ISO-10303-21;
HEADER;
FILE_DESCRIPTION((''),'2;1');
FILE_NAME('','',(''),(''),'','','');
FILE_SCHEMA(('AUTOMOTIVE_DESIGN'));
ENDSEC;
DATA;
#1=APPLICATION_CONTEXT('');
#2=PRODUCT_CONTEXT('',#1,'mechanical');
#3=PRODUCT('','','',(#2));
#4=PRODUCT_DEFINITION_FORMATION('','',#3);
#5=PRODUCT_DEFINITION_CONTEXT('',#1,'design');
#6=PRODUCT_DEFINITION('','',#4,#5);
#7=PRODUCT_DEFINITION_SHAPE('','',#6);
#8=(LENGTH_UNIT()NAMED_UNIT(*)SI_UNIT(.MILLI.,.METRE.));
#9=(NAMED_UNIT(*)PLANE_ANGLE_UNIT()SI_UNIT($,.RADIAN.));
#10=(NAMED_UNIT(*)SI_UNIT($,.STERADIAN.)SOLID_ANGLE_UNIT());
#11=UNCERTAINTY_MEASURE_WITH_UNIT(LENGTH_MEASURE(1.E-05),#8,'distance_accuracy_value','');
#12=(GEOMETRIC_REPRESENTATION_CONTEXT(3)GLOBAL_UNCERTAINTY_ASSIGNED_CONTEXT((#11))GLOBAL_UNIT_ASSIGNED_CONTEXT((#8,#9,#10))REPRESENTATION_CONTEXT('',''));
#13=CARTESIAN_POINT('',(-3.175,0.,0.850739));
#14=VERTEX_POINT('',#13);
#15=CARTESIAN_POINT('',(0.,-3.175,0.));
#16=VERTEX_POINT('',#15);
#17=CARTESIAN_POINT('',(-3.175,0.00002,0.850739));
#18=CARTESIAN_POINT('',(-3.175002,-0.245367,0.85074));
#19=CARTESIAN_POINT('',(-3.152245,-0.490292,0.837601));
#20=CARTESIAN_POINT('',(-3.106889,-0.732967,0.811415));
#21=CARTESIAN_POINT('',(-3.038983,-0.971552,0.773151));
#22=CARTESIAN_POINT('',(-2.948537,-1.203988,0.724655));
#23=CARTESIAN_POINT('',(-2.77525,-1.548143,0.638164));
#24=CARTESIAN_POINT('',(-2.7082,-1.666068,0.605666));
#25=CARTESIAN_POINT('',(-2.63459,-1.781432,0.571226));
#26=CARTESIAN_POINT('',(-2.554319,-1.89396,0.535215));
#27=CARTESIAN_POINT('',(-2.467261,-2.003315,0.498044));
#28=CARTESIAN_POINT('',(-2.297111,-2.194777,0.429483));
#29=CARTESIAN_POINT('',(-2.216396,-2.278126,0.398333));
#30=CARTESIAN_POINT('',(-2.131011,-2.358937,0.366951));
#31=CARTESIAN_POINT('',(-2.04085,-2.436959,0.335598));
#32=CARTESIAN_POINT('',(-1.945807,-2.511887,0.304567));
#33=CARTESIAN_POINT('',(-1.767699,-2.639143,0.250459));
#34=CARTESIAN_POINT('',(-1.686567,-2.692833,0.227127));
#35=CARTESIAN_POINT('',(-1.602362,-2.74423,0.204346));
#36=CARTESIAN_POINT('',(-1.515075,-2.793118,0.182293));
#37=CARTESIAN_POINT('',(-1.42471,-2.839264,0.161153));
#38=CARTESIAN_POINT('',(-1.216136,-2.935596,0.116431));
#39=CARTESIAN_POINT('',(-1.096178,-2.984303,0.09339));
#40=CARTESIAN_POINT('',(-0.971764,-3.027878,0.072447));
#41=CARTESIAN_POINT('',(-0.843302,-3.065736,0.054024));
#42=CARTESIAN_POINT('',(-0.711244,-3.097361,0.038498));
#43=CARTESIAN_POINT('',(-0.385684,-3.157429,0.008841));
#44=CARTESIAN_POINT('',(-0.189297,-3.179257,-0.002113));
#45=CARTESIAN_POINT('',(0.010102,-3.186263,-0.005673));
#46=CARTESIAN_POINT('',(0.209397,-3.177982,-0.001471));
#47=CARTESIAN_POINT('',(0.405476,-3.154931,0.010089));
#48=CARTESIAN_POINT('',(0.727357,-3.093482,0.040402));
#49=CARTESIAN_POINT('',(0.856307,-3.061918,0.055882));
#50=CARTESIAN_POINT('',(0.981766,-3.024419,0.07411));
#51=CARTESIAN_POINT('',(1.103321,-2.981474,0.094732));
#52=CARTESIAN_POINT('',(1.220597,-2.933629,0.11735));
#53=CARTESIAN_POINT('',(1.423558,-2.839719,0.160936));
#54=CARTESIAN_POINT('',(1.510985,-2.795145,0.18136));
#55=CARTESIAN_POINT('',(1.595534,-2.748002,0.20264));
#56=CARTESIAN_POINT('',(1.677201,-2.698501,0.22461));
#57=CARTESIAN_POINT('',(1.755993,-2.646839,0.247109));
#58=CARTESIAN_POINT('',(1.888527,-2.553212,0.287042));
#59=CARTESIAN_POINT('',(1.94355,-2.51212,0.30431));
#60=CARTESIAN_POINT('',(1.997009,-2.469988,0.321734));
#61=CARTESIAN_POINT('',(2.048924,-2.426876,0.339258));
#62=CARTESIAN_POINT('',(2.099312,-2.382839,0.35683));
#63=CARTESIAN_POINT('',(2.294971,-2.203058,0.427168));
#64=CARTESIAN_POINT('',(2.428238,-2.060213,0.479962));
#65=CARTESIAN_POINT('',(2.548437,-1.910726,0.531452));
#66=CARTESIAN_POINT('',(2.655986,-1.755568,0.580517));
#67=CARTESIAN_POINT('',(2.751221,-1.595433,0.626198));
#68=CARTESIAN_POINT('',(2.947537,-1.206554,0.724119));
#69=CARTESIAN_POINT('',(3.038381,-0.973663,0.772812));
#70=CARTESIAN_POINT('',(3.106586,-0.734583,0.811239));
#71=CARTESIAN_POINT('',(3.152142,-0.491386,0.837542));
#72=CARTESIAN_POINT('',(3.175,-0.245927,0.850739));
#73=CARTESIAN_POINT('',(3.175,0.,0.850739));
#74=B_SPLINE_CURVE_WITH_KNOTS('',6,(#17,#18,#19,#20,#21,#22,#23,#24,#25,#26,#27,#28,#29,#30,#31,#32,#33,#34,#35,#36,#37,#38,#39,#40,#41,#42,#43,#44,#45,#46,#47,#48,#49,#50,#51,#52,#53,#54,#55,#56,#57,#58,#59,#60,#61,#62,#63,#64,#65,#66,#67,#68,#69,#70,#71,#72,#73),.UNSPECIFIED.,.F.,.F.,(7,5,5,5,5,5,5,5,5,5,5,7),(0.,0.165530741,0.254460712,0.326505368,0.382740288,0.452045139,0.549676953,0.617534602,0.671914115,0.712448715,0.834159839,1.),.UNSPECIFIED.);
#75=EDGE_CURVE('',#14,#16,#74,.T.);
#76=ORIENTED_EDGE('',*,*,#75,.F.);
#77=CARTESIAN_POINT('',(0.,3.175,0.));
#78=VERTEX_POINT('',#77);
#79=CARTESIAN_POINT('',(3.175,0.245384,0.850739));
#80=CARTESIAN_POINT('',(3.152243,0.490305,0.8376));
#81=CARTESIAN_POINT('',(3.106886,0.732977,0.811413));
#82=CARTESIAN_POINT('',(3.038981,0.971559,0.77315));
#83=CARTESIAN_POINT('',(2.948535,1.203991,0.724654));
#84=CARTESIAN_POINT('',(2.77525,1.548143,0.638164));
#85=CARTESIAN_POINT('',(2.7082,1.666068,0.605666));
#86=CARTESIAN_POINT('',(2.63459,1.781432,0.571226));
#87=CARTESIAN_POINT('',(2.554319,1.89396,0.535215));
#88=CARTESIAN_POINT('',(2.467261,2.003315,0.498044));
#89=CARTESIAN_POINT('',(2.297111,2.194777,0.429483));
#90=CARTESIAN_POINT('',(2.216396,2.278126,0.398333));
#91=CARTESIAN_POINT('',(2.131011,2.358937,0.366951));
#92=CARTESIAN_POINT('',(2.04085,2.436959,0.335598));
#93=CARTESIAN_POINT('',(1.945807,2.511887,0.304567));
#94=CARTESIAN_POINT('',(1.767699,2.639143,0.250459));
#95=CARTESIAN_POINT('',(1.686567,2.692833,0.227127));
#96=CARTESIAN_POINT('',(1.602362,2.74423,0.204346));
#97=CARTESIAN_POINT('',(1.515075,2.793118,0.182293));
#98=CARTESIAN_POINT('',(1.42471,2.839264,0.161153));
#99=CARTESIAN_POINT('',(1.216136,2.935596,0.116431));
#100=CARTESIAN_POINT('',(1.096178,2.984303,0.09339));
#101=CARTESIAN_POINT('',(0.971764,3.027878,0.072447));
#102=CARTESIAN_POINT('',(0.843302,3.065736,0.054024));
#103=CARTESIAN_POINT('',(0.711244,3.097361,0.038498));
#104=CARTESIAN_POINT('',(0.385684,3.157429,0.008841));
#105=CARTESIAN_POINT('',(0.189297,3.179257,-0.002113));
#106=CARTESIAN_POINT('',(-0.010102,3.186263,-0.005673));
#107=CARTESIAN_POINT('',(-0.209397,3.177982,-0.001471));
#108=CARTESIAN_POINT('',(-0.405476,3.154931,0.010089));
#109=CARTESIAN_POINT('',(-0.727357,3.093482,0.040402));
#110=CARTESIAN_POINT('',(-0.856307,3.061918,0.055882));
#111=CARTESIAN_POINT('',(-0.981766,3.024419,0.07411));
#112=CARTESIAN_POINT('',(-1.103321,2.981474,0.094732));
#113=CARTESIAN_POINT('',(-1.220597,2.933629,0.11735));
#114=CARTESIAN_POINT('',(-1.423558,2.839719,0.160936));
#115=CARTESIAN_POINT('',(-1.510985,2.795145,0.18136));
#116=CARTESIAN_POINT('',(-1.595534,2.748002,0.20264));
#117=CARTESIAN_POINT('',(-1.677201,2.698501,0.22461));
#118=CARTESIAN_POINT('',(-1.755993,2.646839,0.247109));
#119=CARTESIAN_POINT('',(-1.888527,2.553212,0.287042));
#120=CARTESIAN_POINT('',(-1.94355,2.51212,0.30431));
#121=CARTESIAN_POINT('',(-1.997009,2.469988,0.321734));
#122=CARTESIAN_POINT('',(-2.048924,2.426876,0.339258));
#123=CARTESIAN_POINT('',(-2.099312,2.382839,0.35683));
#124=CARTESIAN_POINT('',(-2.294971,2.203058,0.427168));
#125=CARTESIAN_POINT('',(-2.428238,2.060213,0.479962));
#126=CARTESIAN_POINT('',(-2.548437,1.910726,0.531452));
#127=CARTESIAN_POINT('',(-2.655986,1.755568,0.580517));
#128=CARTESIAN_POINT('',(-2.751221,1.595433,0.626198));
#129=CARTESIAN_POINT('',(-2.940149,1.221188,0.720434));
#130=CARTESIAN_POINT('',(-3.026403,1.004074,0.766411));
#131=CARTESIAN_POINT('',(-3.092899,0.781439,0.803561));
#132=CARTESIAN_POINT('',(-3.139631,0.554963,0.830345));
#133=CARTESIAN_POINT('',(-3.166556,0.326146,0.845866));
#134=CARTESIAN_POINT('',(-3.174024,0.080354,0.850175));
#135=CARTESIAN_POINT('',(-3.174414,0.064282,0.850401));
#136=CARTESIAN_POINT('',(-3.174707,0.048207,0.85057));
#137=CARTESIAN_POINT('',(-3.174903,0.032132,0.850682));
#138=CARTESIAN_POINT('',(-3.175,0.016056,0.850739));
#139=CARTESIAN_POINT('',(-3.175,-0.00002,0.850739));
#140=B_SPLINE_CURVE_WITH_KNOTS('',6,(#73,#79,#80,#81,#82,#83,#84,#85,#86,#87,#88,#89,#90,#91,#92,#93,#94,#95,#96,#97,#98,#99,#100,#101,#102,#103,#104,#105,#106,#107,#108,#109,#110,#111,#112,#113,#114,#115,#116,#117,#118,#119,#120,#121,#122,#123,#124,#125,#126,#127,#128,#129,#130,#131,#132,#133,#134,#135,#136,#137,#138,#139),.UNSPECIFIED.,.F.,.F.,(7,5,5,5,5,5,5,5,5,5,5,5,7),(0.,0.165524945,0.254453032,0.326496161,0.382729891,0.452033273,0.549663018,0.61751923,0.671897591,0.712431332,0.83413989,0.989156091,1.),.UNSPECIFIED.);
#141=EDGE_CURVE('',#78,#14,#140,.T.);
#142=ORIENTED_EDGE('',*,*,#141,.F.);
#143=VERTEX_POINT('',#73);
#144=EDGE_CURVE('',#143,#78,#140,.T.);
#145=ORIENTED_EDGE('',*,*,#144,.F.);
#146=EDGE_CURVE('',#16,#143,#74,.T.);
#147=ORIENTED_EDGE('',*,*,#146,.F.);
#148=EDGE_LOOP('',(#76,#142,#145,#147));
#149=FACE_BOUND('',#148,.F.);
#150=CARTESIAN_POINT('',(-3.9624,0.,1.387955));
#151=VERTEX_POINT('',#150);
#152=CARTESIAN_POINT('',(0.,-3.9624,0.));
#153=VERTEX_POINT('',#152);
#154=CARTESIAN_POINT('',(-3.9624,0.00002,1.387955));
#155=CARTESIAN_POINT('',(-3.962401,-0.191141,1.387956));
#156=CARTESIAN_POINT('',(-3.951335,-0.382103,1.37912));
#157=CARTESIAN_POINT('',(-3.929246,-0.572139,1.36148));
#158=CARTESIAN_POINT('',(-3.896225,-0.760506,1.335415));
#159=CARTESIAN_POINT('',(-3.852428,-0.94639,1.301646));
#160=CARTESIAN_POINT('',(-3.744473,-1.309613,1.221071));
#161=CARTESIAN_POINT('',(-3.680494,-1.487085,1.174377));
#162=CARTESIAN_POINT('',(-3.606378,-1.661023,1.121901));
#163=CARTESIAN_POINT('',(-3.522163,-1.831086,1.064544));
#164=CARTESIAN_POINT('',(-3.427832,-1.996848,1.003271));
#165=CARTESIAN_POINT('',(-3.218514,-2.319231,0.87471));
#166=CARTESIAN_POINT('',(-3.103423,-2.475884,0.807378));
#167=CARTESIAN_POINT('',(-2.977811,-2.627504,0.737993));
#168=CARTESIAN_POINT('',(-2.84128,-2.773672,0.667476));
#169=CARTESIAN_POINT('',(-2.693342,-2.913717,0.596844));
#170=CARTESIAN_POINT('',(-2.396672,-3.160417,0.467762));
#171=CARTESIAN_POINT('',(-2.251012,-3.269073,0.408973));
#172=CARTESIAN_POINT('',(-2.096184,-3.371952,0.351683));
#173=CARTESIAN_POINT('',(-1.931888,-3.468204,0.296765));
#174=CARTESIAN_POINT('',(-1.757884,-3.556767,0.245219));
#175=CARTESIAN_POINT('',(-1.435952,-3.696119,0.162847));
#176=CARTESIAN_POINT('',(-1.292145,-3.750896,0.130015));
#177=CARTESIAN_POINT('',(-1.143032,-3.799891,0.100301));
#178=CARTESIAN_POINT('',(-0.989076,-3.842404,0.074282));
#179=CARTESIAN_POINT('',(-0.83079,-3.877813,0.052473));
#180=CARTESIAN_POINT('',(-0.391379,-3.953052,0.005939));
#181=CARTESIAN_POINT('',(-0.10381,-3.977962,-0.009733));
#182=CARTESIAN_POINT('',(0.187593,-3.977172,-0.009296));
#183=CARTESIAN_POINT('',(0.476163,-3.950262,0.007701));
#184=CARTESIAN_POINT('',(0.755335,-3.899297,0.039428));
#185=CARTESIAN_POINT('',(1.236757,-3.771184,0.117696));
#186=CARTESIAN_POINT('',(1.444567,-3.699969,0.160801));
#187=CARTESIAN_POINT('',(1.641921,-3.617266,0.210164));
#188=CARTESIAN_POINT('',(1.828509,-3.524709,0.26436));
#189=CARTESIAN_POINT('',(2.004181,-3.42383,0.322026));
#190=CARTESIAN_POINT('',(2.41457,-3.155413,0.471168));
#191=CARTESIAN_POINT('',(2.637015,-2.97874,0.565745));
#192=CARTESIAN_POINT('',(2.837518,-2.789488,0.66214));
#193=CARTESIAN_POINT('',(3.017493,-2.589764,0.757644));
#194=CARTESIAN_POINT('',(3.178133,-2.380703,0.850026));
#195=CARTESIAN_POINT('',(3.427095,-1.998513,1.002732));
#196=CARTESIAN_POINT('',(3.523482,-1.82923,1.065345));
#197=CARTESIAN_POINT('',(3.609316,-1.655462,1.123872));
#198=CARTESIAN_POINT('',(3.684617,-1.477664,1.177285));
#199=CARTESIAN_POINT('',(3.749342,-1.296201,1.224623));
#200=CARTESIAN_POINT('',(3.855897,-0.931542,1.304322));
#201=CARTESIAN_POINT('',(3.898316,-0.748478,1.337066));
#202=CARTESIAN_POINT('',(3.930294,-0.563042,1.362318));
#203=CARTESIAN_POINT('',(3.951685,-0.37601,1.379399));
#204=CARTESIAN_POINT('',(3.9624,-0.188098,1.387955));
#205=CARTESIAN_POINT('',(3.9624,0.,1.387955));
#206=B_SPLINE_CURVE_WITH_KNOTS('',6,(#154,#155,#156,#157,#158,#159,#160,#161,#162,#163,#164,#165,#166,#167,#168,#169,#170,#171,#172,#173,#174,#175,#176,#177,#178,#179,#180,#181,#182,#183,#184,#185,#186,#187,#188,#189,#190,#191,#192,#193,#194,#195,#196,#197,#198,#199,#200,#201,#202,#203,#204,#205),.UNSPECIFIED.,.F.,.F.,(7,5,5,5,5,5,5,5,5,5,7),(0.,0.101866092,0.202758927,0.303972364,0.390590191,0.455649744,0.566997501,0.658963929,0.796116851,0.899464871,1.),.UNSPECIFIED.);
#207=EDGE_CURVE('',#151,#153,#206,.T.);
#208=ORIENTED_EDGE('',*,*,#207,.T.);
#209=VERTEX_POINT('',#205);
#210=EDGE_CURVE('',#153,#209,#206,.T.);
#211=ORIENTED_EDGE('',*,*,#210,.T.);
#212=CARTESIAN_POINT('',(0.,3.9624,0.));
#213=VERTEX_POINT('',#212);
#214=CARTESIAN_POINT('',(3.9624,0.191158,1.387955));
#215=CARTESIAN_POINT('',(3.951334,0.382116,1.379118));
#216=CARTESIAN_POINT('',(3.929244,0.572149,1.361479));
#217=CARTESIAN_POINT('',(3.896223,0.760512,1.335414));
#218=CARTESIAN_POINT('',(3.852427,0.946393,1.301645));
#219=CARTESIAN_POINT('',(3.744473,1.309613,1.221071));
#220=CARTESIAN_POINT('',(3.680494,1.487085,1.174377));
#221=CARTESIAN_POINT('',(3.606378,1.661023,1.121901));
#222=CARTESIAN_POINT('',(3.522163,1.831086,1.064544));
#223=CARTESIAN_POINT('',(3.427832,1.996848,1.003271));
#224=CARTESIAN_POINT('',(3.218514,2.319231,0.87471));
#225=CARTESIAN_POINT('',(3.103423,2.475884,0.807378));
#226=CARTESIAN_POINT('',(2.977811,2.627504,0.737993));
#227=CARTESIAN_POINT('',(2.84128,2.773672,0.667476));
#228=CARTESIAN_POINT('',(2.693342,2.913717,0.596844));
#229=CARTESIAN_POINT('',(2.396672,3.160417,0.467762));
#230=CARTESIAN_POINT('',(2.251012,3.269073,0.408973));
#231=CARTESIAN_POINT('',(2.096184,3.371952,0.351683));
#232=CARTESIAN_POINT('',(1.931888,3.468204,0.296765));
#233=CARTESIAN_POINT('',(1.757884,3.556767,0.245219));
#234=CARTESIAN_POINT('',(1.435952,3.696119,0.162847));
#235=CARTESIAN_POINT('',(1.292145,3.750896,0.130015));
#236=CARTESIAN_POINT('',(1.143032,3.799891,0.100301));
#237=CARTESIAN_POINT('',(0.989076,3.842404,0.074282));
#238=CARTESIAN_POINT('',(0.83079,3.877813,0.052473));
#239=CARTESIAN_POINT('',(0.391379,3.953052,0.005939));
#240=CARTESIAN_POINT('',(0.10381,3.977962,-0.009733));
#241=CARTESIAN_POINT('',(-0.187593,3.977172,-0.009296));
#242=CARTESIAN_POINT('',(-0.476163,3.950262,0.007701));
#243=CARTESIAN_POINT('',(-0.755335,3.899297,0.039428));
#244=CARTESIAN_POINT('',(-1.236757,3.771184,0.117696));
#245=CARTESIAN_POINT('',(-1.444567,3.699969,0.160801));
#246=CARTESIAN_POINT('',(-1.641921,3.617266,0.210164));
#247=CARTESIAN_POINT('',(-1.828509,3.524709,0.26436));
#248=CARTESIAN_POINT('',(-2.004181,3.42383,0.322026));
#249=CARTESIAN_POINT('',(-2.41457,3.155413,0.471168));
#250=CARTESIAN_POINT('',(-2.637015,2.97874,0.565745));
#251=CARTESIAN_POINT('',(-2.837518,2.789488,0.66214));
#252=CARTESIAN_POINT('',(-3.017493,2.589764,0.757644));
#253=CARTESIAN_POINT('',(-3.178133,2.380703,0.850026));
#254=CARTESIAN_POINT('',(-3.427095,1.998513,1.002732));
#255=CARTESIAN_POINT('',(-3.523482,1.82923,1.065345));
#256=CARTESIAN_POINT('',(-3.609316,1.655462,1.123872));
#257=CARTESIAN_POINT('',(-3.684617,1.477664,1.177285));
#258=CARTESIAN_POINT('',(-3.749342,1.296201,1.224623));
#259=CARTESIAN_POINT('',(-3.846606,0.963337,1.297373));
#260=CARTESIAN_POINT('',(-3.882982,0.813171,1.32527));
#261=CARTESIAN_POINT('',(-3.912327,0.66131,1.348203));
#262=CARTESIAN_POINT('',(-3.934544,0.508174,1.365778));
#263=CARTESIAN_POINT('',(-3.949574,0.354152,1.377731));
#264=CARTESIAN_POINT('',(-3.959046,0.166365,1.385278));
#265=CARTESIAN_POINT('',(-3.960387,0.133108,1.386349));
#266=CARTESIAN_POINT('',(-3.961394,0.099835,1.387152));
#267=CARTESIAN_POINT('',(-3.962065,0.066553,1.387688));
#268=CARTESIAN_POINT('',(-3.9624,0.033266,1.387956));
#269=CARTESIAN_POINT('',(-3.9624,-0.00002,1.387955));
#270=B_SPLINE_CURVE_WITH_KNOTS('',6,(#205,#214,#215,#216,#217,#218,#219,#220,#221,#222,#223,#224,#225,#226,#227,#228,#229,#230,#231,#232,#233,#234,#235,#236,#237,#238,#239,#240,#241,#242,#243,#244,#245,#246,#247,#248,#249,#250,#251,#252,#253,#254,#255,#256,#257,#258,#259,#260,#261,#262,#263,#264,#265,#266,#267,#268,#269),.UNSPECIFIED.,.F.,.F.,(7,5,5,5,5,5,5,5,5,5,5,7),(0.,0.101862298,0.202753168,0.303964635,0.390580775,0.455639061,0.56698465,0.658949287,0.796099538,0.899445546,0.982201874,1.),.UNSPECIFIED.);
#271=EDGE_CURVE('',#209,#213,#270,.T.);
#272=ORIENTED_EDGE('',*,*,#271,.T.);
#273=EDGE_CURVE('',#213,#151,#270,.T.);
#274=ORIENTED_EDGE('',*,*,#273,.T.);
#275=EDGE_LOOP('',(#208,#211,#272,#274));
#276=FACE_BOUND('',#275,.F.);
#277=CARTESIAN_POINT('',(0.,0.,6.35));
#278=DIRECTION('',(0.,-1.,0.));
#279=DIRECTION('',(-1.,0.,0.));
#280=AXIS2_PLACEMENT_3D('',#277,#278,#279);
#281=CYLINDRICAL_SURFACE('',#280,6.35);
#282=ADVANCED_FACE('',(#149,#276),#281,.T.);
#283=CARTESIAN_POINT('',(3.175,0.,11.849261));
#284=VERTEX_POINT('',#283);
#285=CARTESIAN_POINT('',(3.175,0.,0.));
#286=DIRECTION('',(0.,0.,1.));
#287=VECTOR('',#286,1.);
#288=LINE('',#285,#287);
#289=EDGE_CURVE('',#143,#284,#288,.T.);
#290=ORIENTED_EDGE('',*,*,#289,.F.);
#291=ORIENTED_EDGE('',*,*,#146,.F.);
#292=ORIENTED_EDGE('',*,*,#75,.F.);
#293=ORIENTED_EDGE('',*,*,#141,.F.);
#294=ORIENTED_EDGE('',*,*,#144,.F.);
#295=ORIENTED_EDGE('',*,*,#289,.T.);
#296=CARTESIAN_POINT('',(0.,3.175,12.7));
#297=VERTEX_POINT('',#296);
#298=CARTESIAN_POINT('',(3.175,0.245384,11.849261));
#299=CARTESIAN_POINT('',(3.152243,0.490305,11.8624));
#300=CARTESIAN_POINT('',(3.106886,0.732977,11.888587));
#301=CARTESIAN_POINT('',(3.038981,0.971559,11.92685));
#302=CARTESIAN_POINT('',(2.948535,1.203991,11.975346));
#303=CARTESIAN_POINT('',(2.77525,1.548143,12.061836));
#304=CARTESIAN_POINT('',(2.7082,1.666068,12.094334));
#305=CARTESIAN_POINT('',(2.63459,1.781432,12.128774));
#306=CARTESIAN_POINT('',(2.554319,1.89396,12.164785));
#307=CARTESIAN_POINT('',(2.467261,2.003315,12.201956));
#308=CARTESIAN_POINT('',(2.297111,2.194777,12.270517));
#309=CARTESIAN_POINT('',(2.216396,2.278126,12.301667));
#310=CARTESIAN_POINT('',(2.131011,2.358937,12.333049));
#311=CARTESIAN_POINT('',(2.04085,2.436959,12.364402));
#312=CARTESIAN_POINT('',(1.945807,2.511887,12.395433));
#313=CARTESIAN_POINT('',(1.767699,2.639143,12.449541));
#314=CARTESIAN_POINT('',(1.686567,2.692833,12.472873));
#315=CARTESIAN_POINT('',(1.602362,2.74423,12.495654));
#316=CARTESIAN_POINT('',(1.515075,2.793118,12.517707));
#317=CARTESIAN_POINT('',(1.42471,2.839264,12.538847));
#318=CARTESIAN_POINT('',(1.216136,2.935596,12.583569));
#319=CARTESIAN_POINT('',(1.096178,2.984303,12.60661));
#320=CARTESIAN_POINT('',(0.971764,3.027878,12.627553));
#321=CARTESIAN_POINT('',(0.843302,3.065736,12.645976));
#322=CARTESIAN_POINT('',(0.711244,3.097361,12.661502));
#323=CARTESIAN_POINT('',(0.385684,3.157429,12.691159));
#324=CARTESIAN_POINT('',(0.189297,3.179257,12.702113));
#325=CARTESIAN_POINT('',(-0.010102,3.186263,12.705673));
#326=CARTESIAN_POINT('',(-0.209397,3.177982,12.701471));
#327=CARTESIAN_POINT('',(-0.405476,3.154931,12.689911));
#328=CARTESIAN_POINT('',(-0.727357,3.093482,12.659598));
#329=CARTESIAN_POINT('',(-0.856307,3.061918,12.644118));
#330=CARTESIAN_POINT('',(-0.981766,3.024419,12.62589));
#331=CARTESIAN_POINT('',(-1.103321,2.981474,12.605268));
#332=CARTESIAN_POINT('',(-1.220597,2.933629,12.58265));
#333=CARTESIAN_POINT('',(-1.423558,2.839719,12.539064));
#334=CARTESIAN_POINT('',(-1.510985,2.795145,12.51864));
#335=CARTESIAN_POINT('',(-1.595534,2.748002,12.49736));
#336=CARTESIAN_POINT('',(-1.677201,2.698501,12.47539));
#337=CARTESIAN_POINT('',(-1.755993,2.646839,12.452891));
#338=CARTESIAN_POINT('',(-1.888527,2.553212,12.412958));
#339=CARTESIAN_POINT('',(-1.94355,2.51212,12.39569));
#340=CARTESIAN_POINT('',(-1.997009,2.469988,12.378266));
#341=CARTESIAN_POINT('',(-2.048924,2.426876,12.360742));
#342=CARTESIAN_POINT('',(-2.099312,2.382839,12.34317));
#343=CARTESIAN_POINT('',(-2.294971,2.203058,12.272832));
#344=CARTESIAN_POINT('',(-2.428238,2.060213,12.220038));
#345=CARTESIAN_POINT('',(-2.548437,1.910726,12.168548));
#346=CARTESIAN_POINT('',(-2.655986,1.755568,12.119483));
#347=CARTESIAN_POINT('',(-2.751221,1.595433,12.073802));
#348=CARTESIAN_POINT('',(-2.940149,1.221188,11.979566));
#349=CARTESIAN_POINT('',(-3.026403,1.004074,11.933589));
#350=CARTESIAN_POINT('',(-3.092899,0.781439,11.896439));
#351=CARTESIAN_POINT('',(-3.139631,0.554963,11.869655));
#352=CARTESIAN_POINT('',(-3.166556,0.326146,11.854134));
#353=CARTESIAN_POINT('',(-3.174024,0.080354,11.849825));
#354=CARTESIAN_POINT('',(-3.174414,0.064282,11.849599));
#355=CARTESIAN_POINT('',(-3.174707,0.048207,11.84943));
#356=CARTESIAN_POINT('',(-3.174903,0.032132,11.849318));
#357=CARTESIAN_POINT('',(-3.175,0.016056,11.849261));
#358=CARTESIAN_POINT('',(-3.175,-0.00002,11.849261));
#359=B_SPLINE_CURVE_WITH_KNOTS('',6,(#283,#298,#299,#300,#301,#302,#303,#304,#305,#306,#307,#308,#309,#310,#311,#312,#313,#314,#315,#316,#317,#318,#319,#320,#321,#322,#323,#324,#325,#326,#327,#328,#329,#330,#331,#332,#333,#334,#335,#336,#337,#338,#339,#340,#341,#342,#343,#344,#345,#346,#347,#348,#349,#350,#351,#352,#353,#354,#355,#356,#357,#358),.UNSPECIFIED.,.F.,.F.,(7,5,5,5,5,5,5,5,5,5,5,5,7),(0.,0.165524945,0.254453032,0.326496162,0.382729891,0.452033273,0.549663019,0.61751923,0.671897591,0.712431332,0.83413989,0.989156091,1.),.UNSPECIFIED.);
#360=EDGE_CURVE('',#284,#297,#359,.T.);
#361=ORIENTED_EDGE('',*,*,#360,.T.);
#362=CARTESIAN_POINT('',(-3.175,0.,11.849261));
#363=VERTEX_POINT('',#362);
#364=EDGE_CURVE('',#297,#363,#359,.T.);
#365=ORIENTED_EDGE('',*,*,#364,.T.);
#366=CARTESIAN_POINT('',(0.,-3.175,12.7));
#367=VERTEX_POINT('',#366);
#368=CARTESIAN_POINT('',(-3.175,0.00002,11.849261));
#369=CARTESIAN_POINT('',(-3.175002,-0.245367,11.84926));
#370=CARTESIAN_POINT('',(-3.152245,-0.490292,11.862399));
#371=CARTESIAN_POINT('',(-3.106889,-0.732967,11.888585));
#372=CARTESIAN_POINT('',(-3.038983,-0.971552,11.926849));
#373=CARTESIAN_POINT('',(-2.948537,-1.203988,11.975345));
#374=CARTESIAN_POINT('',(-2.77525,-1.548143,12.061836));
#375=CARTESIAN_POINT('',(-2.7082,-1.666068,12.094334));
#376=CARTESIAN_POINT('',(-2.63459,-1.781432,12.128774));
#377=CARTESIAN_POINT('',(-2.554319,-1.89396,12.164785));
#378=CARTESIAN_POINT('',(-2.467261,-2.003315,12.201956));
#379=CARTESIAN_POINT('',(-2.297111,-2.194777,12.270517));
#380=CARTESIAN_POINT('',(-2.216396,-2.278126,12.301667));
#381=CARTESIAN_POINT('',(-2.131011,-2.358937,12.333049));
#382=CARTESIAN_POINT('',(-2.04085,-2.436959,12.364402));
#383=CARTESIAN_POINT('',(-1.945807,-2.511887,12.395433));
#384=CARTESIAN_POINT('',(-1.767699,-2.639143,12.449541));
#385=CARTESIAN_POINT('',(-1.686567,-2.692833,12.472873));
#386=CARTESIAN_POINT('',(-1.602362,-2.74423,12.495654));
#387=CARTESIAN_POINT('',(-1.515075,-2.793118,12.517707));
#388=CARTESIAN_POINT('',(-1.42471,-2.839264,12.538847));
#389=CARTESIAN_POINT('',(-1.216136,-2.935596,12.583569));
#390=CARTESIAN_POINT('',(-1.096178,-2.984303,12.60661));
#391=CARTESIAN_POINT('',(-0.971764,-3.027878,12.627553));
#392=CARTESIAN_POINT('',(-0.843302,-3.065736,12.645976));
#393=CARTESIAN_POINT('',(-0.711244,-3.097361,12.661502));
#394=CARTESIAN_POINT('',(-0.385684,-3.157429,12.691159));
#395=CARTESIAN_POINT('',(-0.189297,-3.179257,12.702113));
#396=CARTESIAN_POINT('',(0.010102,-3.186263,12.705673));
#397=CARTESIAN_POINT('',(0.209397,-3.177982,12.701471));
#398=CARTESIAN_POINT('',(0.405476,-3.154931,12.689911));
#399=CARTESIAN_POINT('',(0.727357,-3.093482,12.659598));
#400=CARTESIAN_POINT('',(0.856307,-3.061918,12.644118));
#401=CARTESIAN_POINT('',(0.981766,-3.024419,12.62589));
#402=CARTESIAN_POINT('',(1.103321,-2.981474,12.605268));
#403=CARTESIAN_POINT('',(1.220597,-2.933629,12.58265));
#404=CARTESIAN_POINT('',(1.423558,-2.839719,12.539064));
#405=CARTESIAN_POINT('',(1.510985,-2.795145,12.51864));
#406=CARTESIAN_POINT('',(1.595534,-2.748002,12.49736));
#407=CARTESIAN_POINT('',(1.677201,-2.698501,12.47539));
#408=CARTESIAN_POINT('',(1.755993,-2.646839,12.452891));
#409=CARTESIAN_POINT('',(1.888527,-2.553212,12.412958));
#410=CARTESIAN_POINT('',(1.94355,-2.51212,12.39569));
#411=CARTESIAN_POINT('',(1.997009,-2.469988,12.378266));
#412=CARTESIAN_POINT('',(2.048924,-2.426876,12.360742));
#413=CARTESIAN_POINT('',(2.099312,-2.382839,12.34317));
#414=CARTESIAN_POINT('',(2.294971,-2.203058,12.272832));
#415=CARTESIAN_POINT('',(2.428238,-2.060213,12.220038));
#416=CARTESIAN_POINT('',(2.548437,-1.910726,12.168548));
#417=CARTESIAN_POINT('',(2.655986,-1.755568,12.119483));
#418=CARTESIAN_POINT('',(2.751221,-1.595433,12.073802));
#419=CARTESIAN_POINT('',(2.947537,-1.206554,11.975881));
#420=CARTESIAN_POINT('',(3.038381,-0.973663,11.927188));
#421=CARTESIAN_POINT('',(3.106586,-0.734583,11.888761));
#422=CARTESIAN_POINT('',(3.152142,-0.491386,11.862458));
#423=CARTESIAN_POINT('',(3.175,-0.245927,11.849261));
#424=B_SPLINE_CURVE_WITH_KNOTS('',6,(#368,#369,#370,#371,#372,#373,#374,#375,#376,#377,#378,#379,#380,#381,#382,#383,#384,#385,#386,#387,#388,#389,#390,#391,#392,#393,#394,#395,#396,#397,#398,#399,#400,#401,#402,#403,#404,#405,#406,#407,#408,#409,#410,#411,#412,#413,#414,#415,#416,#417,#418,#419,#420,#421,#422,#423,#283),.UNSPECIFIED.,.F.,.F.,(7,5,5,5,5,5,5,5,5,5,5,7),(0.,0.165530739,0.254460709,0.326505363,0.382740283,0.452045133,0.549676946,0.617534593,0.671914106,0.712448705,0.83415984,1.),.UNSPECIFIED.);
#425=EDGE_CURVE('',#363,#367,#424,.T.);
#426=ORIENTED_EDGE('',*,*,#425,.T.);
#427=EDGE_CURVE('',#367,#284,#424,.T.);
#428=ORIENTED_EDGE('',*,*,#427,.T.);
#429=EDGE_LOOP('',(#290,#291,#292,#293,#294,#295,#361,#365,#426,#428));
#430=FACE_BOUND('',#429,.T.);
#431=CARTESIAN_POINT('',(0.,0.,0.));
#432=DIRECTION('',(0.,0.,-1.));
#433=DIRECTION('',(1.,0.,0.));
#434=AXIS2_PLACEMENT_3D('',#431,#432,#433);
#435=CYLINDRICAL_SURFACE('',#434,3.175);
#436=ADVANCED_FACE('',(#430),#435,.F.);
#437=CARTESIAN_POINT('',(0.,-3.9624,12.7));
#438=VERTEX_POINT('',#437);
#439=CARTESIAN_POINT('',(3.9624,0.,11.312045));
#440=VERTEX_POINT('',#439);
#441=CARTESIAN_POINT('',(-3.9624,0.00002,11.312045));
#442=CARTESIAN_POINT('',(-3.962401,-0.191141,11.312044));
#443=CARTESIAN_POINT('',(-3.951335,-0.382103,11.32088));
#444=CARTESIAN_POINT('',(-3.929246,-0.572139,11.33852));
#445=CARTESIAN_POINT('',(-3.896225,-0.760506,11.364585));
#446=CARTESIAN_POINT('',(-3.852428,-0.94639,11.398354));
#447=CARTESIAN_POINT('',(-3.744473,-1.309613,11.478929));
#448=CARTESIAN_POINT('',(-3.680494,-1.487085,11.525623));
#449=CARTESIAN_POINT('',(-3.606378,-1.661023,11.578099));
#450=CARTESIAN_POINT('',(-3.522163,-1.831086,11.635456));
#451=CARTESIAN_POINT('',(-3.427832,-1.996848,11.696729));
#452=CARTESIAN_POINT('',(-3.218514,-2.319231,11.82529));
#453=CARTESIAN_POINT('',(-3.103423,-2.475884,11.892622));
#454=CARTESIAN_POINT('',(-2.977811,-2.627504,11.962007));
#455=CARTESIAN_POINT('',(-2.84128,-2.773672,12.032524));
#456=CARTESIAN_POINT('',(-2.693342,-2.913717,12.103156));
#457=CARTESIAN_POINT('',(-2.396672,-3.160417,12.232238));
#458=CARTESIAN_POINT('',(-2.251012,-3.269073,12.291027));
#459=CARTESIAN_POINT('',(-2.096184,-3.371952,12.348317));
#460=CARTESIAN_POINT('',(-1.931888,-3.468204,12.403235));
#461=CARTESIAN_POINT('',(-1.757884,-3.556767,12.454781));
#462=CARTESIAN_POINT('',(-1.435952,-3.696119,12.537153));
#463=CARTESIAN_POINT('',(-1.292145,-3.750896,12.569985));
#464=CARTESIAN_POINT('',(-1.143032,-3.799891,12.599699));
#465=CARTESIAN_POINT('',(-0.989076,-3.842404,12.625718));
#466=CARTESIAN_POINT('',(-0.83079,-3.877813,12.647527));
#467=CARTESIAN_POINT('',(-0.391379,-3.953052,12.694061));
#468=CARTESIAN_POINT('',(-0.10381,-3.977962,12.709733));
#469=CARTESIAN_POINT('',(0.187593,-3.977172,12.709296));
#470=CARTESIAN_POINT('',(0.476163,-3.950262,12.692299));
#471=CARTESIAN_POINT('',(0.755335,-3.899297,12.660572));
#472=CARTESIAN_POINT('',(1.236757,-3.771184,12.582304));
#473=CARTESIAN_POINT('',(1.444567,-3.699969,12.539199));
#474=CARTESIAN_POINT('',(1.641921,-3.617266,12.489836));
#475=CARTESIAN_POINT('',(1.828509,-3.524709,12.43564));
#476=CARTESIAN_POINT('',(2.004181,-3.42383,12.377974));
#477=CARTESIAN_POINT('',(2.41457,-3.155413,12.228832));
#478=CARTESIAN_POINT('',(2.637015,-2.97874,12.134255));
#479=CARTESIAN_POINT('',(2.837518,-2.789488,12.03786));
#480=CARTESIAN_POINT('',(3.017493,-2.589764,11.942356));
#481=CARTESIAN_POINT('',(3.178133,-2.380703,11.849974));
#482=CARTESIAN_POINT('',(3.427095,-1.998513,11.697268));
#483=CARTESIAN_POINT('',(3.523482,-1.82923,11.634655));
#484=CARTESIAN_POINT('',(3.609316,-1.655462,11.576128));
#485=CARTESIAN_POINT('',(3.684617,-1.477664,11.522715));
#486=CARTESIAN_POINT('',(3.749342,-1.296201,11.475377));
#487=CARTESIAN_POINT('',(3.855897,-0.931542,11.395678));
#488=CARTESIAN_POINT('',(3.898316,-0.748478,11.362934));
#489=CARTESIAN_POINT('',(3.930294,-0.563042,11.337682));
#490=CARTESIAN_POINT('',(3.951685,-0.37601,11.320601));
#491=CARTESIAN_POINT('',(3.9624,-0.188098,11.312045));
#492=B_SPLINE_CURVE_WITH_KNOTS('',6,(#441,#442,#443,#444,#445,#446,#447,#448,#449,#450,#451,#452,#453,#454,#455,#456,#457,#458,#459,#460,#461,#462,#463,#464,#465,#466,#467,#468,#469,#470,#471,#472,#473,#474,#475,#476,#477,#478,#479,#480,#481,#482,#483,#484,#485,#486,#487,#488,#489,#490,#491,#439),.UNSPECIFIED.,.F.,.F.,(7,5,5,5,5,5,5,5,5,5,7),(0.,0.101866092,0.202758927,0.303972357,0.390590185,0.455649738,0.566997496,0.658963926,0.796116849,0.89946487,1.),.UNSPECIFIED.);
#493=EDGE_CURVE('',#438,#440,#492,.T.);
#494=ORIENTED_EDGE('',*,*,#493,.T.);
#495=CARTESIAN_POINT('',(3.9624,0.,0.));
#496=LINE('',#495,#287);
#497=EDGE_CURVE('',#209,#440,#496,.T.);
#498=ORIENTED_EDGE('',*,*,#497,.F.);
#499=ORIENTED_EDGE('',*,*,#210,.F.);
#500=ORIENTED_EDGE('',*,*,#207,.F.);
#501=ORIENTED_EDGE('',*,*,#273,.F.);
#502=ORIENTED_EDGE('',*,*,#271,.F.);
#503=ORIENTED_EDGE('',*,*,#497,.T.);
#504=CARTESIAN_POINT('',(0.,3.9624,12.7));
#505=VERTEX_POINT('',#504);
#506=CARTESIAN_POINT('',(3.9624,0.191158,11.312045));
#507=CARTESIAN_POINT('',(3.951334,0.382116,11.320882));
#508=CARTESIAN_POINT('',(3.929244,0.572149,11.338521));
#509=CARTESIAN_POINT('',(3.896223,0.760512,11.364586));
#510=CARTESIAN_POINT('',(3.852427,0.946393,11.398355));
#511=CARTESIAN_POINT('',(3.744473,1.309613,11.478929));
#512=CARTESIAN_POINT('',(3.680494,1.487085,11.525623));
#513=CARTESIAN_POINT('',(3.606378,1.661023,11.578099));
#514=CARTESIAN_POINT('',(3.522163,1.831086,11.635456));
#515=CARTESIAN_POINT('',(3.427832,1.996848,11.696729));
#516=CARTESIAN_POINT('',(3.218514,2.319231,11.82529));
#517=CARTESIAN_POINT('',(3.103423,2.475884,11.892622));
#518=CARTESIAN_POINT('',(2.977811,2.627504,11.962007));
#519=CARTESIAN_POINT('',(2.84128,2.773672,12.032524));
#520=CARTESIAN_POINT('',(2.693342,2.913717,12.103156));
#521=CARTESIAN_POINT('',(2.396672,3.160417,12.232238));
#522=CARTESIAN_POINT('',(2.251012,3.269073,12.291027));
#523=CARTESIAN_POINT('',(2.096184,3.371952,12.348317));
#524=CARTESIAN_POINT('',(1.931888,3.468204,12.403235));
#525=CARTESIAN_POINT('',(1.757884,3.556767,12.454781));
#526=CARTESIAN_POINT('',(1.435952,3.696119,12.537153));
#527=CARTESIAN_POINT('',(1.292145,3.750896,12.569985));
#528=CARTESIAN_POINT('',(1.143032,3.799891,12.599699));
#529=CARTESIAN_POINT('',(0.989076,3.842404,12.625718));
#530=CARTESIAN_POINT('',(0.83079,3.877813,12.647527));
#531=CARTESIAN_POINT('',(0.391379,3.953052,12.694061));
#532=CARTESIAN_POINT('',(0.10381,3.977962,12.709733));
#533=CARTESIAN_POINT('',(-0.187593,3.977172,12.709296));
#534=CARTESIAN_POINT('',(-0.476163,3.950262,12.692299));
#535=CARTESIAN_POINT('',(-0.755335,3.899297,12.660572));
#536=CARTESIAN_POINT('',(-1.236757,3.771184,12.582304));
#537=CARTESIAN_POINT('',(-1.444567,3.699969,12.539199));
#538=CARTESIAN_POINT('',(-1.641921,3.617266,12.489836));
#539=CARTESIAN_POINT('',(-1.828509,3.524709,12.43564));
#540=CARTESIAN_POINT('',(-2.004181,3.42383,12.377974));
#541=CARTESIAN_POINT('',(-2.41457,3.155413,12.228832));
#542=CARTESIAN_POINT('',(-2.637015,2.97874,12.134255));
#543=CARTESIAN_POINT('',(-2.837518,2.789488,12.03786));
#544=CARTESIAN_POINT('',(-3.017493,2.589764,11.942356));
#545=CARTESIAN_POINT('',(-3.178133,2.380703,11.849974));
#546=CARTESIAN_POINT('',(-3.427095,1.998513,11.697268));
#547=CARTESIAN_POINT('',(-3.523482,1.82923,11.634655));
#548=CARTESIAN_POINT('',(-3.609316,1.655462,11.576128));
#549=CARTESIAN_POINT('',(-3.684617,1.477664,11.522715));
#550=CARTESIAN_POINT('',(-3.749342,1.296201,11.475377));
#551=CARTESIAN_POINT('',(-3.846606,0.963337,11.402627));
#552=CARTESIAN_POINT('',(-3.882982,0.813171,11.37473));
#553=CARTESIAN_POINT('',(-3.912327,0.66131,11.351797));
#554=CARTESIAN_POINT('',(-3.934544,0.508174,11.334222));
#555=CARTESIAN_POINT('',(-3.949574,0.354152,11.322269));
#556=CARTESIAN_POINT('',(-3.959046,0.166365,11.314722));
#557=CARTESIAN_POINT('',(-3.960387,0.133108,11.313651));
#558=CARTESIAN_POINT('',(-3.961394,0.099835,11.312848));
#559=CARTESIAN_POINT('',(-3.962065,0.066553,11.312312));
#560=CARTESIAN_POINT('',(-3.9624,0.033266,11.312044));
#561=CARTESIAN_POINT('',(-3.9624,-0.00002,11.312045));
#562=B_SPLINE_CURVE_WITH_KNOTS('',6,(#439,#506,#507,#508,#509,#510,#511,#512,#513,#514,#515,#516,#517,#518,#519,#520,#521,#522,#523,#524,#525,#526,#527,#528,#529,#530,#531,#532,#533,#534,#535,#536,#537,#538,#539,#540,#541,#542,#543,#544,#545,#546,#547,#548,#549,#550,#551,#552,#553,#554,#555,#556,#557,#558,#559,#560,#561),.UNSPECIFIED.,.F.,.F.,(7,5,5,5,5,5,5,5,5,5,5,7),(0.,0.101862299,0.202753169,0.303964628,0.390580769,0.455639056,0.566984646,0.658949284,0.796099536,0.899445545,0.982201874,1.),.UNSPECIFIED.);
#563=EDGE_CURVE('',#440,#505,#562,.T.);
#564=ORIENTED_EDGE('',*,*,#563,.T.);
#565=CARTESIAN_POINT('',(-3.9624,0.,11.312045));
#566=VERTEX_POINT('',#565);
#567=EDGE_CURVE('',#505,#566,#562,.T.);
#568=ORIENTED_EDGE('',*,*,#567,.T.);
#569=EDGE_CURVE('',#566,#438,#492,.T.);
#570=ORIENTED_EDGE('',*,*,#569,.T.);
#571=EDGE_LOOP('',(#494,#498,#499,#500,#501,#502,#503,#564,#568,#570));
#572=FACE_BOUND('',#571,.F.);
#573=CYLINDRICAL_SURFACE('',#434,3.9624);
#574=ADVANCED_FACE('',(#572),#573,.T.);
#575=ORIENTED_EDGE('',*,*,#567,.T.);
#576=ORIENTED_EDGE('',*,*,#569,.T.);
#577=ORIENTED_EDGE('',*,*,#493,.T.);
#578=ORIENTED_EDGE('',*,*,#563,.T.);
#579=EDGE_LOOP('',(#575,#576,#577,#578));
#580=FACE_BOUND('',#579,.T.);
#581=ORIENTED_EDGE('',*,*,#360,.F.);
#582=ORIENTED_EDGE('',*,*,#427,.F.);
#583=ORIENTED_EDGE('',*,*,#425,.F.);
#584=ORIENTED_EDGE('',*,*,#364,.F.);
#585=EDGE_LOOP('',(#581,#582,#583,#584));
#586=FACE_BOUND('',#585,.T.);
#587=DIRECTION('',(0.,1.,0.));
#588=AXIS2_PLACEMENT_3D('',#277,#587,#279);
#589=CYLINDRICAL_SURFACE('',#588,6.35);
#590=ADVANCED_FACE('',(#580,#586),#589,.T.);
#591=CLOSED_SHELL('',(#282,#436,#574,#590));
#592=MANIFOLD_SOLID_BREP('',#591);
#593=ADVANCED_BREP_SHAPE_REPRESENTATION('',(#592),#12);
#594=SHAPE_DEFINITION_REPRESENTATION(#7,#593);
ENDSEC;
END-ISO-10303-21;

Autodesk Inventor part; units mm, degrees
ref_plane "YZ Plane" through (0, 0, 0) normal (1, 0, 0) x (0, 1, 0)
ref_plane "XZ Plane" through (0, 0, 0) normal (0, 1, 0) x (-1, 0, 0)
ref_plane "XY Plane" through (0, 0, 0) normal (0, 0, 1) x (1, 0, 0)
sketch "Sketch1" plane through (0, 0, 0) normal (0, 0, 1) x (1, 0, 0)
  circle A0 centre (0, 0) radius 3.9624
  circle A1 centre (0, 0) radius 3.175
  dimension "d0" = 7.9248
  dimension "d1" = 6.35
extrude "Extrusion1" add sketch "Sketch1" along normal blind 12.7
sketch "Sketch2" plane through (0, 0, 0) normal (0, 1, 0) x (-1, 0, 0)
  circle A0 centre (0, 6.35) radius 6.35
  line L0 (-3.9624, 0) -> (3.9624, 0) projected
  line L1 (3.9624, 12.7) -> (-3.9624, 12.7) projected
  line L2 (3.9624, 0) -> (3.9624, 12.7) projected
  line L3 (3.9624, 0) -> (3.9624, 12.7) projected
  circle A1 centre (0, 6.35) radius 9.525
  point P0 (0, 0)
  dimension "d4" = 12.7
  dimension "d5" = 3.9624
  dimension "d6" = 19.05
extrude "Extrusion2" cut sketch "Sketch2" along normal mid plane 12.7 contours A0 L1 L2 | L2 L0 A0 | A1
properties part number "Piston Bushing"
